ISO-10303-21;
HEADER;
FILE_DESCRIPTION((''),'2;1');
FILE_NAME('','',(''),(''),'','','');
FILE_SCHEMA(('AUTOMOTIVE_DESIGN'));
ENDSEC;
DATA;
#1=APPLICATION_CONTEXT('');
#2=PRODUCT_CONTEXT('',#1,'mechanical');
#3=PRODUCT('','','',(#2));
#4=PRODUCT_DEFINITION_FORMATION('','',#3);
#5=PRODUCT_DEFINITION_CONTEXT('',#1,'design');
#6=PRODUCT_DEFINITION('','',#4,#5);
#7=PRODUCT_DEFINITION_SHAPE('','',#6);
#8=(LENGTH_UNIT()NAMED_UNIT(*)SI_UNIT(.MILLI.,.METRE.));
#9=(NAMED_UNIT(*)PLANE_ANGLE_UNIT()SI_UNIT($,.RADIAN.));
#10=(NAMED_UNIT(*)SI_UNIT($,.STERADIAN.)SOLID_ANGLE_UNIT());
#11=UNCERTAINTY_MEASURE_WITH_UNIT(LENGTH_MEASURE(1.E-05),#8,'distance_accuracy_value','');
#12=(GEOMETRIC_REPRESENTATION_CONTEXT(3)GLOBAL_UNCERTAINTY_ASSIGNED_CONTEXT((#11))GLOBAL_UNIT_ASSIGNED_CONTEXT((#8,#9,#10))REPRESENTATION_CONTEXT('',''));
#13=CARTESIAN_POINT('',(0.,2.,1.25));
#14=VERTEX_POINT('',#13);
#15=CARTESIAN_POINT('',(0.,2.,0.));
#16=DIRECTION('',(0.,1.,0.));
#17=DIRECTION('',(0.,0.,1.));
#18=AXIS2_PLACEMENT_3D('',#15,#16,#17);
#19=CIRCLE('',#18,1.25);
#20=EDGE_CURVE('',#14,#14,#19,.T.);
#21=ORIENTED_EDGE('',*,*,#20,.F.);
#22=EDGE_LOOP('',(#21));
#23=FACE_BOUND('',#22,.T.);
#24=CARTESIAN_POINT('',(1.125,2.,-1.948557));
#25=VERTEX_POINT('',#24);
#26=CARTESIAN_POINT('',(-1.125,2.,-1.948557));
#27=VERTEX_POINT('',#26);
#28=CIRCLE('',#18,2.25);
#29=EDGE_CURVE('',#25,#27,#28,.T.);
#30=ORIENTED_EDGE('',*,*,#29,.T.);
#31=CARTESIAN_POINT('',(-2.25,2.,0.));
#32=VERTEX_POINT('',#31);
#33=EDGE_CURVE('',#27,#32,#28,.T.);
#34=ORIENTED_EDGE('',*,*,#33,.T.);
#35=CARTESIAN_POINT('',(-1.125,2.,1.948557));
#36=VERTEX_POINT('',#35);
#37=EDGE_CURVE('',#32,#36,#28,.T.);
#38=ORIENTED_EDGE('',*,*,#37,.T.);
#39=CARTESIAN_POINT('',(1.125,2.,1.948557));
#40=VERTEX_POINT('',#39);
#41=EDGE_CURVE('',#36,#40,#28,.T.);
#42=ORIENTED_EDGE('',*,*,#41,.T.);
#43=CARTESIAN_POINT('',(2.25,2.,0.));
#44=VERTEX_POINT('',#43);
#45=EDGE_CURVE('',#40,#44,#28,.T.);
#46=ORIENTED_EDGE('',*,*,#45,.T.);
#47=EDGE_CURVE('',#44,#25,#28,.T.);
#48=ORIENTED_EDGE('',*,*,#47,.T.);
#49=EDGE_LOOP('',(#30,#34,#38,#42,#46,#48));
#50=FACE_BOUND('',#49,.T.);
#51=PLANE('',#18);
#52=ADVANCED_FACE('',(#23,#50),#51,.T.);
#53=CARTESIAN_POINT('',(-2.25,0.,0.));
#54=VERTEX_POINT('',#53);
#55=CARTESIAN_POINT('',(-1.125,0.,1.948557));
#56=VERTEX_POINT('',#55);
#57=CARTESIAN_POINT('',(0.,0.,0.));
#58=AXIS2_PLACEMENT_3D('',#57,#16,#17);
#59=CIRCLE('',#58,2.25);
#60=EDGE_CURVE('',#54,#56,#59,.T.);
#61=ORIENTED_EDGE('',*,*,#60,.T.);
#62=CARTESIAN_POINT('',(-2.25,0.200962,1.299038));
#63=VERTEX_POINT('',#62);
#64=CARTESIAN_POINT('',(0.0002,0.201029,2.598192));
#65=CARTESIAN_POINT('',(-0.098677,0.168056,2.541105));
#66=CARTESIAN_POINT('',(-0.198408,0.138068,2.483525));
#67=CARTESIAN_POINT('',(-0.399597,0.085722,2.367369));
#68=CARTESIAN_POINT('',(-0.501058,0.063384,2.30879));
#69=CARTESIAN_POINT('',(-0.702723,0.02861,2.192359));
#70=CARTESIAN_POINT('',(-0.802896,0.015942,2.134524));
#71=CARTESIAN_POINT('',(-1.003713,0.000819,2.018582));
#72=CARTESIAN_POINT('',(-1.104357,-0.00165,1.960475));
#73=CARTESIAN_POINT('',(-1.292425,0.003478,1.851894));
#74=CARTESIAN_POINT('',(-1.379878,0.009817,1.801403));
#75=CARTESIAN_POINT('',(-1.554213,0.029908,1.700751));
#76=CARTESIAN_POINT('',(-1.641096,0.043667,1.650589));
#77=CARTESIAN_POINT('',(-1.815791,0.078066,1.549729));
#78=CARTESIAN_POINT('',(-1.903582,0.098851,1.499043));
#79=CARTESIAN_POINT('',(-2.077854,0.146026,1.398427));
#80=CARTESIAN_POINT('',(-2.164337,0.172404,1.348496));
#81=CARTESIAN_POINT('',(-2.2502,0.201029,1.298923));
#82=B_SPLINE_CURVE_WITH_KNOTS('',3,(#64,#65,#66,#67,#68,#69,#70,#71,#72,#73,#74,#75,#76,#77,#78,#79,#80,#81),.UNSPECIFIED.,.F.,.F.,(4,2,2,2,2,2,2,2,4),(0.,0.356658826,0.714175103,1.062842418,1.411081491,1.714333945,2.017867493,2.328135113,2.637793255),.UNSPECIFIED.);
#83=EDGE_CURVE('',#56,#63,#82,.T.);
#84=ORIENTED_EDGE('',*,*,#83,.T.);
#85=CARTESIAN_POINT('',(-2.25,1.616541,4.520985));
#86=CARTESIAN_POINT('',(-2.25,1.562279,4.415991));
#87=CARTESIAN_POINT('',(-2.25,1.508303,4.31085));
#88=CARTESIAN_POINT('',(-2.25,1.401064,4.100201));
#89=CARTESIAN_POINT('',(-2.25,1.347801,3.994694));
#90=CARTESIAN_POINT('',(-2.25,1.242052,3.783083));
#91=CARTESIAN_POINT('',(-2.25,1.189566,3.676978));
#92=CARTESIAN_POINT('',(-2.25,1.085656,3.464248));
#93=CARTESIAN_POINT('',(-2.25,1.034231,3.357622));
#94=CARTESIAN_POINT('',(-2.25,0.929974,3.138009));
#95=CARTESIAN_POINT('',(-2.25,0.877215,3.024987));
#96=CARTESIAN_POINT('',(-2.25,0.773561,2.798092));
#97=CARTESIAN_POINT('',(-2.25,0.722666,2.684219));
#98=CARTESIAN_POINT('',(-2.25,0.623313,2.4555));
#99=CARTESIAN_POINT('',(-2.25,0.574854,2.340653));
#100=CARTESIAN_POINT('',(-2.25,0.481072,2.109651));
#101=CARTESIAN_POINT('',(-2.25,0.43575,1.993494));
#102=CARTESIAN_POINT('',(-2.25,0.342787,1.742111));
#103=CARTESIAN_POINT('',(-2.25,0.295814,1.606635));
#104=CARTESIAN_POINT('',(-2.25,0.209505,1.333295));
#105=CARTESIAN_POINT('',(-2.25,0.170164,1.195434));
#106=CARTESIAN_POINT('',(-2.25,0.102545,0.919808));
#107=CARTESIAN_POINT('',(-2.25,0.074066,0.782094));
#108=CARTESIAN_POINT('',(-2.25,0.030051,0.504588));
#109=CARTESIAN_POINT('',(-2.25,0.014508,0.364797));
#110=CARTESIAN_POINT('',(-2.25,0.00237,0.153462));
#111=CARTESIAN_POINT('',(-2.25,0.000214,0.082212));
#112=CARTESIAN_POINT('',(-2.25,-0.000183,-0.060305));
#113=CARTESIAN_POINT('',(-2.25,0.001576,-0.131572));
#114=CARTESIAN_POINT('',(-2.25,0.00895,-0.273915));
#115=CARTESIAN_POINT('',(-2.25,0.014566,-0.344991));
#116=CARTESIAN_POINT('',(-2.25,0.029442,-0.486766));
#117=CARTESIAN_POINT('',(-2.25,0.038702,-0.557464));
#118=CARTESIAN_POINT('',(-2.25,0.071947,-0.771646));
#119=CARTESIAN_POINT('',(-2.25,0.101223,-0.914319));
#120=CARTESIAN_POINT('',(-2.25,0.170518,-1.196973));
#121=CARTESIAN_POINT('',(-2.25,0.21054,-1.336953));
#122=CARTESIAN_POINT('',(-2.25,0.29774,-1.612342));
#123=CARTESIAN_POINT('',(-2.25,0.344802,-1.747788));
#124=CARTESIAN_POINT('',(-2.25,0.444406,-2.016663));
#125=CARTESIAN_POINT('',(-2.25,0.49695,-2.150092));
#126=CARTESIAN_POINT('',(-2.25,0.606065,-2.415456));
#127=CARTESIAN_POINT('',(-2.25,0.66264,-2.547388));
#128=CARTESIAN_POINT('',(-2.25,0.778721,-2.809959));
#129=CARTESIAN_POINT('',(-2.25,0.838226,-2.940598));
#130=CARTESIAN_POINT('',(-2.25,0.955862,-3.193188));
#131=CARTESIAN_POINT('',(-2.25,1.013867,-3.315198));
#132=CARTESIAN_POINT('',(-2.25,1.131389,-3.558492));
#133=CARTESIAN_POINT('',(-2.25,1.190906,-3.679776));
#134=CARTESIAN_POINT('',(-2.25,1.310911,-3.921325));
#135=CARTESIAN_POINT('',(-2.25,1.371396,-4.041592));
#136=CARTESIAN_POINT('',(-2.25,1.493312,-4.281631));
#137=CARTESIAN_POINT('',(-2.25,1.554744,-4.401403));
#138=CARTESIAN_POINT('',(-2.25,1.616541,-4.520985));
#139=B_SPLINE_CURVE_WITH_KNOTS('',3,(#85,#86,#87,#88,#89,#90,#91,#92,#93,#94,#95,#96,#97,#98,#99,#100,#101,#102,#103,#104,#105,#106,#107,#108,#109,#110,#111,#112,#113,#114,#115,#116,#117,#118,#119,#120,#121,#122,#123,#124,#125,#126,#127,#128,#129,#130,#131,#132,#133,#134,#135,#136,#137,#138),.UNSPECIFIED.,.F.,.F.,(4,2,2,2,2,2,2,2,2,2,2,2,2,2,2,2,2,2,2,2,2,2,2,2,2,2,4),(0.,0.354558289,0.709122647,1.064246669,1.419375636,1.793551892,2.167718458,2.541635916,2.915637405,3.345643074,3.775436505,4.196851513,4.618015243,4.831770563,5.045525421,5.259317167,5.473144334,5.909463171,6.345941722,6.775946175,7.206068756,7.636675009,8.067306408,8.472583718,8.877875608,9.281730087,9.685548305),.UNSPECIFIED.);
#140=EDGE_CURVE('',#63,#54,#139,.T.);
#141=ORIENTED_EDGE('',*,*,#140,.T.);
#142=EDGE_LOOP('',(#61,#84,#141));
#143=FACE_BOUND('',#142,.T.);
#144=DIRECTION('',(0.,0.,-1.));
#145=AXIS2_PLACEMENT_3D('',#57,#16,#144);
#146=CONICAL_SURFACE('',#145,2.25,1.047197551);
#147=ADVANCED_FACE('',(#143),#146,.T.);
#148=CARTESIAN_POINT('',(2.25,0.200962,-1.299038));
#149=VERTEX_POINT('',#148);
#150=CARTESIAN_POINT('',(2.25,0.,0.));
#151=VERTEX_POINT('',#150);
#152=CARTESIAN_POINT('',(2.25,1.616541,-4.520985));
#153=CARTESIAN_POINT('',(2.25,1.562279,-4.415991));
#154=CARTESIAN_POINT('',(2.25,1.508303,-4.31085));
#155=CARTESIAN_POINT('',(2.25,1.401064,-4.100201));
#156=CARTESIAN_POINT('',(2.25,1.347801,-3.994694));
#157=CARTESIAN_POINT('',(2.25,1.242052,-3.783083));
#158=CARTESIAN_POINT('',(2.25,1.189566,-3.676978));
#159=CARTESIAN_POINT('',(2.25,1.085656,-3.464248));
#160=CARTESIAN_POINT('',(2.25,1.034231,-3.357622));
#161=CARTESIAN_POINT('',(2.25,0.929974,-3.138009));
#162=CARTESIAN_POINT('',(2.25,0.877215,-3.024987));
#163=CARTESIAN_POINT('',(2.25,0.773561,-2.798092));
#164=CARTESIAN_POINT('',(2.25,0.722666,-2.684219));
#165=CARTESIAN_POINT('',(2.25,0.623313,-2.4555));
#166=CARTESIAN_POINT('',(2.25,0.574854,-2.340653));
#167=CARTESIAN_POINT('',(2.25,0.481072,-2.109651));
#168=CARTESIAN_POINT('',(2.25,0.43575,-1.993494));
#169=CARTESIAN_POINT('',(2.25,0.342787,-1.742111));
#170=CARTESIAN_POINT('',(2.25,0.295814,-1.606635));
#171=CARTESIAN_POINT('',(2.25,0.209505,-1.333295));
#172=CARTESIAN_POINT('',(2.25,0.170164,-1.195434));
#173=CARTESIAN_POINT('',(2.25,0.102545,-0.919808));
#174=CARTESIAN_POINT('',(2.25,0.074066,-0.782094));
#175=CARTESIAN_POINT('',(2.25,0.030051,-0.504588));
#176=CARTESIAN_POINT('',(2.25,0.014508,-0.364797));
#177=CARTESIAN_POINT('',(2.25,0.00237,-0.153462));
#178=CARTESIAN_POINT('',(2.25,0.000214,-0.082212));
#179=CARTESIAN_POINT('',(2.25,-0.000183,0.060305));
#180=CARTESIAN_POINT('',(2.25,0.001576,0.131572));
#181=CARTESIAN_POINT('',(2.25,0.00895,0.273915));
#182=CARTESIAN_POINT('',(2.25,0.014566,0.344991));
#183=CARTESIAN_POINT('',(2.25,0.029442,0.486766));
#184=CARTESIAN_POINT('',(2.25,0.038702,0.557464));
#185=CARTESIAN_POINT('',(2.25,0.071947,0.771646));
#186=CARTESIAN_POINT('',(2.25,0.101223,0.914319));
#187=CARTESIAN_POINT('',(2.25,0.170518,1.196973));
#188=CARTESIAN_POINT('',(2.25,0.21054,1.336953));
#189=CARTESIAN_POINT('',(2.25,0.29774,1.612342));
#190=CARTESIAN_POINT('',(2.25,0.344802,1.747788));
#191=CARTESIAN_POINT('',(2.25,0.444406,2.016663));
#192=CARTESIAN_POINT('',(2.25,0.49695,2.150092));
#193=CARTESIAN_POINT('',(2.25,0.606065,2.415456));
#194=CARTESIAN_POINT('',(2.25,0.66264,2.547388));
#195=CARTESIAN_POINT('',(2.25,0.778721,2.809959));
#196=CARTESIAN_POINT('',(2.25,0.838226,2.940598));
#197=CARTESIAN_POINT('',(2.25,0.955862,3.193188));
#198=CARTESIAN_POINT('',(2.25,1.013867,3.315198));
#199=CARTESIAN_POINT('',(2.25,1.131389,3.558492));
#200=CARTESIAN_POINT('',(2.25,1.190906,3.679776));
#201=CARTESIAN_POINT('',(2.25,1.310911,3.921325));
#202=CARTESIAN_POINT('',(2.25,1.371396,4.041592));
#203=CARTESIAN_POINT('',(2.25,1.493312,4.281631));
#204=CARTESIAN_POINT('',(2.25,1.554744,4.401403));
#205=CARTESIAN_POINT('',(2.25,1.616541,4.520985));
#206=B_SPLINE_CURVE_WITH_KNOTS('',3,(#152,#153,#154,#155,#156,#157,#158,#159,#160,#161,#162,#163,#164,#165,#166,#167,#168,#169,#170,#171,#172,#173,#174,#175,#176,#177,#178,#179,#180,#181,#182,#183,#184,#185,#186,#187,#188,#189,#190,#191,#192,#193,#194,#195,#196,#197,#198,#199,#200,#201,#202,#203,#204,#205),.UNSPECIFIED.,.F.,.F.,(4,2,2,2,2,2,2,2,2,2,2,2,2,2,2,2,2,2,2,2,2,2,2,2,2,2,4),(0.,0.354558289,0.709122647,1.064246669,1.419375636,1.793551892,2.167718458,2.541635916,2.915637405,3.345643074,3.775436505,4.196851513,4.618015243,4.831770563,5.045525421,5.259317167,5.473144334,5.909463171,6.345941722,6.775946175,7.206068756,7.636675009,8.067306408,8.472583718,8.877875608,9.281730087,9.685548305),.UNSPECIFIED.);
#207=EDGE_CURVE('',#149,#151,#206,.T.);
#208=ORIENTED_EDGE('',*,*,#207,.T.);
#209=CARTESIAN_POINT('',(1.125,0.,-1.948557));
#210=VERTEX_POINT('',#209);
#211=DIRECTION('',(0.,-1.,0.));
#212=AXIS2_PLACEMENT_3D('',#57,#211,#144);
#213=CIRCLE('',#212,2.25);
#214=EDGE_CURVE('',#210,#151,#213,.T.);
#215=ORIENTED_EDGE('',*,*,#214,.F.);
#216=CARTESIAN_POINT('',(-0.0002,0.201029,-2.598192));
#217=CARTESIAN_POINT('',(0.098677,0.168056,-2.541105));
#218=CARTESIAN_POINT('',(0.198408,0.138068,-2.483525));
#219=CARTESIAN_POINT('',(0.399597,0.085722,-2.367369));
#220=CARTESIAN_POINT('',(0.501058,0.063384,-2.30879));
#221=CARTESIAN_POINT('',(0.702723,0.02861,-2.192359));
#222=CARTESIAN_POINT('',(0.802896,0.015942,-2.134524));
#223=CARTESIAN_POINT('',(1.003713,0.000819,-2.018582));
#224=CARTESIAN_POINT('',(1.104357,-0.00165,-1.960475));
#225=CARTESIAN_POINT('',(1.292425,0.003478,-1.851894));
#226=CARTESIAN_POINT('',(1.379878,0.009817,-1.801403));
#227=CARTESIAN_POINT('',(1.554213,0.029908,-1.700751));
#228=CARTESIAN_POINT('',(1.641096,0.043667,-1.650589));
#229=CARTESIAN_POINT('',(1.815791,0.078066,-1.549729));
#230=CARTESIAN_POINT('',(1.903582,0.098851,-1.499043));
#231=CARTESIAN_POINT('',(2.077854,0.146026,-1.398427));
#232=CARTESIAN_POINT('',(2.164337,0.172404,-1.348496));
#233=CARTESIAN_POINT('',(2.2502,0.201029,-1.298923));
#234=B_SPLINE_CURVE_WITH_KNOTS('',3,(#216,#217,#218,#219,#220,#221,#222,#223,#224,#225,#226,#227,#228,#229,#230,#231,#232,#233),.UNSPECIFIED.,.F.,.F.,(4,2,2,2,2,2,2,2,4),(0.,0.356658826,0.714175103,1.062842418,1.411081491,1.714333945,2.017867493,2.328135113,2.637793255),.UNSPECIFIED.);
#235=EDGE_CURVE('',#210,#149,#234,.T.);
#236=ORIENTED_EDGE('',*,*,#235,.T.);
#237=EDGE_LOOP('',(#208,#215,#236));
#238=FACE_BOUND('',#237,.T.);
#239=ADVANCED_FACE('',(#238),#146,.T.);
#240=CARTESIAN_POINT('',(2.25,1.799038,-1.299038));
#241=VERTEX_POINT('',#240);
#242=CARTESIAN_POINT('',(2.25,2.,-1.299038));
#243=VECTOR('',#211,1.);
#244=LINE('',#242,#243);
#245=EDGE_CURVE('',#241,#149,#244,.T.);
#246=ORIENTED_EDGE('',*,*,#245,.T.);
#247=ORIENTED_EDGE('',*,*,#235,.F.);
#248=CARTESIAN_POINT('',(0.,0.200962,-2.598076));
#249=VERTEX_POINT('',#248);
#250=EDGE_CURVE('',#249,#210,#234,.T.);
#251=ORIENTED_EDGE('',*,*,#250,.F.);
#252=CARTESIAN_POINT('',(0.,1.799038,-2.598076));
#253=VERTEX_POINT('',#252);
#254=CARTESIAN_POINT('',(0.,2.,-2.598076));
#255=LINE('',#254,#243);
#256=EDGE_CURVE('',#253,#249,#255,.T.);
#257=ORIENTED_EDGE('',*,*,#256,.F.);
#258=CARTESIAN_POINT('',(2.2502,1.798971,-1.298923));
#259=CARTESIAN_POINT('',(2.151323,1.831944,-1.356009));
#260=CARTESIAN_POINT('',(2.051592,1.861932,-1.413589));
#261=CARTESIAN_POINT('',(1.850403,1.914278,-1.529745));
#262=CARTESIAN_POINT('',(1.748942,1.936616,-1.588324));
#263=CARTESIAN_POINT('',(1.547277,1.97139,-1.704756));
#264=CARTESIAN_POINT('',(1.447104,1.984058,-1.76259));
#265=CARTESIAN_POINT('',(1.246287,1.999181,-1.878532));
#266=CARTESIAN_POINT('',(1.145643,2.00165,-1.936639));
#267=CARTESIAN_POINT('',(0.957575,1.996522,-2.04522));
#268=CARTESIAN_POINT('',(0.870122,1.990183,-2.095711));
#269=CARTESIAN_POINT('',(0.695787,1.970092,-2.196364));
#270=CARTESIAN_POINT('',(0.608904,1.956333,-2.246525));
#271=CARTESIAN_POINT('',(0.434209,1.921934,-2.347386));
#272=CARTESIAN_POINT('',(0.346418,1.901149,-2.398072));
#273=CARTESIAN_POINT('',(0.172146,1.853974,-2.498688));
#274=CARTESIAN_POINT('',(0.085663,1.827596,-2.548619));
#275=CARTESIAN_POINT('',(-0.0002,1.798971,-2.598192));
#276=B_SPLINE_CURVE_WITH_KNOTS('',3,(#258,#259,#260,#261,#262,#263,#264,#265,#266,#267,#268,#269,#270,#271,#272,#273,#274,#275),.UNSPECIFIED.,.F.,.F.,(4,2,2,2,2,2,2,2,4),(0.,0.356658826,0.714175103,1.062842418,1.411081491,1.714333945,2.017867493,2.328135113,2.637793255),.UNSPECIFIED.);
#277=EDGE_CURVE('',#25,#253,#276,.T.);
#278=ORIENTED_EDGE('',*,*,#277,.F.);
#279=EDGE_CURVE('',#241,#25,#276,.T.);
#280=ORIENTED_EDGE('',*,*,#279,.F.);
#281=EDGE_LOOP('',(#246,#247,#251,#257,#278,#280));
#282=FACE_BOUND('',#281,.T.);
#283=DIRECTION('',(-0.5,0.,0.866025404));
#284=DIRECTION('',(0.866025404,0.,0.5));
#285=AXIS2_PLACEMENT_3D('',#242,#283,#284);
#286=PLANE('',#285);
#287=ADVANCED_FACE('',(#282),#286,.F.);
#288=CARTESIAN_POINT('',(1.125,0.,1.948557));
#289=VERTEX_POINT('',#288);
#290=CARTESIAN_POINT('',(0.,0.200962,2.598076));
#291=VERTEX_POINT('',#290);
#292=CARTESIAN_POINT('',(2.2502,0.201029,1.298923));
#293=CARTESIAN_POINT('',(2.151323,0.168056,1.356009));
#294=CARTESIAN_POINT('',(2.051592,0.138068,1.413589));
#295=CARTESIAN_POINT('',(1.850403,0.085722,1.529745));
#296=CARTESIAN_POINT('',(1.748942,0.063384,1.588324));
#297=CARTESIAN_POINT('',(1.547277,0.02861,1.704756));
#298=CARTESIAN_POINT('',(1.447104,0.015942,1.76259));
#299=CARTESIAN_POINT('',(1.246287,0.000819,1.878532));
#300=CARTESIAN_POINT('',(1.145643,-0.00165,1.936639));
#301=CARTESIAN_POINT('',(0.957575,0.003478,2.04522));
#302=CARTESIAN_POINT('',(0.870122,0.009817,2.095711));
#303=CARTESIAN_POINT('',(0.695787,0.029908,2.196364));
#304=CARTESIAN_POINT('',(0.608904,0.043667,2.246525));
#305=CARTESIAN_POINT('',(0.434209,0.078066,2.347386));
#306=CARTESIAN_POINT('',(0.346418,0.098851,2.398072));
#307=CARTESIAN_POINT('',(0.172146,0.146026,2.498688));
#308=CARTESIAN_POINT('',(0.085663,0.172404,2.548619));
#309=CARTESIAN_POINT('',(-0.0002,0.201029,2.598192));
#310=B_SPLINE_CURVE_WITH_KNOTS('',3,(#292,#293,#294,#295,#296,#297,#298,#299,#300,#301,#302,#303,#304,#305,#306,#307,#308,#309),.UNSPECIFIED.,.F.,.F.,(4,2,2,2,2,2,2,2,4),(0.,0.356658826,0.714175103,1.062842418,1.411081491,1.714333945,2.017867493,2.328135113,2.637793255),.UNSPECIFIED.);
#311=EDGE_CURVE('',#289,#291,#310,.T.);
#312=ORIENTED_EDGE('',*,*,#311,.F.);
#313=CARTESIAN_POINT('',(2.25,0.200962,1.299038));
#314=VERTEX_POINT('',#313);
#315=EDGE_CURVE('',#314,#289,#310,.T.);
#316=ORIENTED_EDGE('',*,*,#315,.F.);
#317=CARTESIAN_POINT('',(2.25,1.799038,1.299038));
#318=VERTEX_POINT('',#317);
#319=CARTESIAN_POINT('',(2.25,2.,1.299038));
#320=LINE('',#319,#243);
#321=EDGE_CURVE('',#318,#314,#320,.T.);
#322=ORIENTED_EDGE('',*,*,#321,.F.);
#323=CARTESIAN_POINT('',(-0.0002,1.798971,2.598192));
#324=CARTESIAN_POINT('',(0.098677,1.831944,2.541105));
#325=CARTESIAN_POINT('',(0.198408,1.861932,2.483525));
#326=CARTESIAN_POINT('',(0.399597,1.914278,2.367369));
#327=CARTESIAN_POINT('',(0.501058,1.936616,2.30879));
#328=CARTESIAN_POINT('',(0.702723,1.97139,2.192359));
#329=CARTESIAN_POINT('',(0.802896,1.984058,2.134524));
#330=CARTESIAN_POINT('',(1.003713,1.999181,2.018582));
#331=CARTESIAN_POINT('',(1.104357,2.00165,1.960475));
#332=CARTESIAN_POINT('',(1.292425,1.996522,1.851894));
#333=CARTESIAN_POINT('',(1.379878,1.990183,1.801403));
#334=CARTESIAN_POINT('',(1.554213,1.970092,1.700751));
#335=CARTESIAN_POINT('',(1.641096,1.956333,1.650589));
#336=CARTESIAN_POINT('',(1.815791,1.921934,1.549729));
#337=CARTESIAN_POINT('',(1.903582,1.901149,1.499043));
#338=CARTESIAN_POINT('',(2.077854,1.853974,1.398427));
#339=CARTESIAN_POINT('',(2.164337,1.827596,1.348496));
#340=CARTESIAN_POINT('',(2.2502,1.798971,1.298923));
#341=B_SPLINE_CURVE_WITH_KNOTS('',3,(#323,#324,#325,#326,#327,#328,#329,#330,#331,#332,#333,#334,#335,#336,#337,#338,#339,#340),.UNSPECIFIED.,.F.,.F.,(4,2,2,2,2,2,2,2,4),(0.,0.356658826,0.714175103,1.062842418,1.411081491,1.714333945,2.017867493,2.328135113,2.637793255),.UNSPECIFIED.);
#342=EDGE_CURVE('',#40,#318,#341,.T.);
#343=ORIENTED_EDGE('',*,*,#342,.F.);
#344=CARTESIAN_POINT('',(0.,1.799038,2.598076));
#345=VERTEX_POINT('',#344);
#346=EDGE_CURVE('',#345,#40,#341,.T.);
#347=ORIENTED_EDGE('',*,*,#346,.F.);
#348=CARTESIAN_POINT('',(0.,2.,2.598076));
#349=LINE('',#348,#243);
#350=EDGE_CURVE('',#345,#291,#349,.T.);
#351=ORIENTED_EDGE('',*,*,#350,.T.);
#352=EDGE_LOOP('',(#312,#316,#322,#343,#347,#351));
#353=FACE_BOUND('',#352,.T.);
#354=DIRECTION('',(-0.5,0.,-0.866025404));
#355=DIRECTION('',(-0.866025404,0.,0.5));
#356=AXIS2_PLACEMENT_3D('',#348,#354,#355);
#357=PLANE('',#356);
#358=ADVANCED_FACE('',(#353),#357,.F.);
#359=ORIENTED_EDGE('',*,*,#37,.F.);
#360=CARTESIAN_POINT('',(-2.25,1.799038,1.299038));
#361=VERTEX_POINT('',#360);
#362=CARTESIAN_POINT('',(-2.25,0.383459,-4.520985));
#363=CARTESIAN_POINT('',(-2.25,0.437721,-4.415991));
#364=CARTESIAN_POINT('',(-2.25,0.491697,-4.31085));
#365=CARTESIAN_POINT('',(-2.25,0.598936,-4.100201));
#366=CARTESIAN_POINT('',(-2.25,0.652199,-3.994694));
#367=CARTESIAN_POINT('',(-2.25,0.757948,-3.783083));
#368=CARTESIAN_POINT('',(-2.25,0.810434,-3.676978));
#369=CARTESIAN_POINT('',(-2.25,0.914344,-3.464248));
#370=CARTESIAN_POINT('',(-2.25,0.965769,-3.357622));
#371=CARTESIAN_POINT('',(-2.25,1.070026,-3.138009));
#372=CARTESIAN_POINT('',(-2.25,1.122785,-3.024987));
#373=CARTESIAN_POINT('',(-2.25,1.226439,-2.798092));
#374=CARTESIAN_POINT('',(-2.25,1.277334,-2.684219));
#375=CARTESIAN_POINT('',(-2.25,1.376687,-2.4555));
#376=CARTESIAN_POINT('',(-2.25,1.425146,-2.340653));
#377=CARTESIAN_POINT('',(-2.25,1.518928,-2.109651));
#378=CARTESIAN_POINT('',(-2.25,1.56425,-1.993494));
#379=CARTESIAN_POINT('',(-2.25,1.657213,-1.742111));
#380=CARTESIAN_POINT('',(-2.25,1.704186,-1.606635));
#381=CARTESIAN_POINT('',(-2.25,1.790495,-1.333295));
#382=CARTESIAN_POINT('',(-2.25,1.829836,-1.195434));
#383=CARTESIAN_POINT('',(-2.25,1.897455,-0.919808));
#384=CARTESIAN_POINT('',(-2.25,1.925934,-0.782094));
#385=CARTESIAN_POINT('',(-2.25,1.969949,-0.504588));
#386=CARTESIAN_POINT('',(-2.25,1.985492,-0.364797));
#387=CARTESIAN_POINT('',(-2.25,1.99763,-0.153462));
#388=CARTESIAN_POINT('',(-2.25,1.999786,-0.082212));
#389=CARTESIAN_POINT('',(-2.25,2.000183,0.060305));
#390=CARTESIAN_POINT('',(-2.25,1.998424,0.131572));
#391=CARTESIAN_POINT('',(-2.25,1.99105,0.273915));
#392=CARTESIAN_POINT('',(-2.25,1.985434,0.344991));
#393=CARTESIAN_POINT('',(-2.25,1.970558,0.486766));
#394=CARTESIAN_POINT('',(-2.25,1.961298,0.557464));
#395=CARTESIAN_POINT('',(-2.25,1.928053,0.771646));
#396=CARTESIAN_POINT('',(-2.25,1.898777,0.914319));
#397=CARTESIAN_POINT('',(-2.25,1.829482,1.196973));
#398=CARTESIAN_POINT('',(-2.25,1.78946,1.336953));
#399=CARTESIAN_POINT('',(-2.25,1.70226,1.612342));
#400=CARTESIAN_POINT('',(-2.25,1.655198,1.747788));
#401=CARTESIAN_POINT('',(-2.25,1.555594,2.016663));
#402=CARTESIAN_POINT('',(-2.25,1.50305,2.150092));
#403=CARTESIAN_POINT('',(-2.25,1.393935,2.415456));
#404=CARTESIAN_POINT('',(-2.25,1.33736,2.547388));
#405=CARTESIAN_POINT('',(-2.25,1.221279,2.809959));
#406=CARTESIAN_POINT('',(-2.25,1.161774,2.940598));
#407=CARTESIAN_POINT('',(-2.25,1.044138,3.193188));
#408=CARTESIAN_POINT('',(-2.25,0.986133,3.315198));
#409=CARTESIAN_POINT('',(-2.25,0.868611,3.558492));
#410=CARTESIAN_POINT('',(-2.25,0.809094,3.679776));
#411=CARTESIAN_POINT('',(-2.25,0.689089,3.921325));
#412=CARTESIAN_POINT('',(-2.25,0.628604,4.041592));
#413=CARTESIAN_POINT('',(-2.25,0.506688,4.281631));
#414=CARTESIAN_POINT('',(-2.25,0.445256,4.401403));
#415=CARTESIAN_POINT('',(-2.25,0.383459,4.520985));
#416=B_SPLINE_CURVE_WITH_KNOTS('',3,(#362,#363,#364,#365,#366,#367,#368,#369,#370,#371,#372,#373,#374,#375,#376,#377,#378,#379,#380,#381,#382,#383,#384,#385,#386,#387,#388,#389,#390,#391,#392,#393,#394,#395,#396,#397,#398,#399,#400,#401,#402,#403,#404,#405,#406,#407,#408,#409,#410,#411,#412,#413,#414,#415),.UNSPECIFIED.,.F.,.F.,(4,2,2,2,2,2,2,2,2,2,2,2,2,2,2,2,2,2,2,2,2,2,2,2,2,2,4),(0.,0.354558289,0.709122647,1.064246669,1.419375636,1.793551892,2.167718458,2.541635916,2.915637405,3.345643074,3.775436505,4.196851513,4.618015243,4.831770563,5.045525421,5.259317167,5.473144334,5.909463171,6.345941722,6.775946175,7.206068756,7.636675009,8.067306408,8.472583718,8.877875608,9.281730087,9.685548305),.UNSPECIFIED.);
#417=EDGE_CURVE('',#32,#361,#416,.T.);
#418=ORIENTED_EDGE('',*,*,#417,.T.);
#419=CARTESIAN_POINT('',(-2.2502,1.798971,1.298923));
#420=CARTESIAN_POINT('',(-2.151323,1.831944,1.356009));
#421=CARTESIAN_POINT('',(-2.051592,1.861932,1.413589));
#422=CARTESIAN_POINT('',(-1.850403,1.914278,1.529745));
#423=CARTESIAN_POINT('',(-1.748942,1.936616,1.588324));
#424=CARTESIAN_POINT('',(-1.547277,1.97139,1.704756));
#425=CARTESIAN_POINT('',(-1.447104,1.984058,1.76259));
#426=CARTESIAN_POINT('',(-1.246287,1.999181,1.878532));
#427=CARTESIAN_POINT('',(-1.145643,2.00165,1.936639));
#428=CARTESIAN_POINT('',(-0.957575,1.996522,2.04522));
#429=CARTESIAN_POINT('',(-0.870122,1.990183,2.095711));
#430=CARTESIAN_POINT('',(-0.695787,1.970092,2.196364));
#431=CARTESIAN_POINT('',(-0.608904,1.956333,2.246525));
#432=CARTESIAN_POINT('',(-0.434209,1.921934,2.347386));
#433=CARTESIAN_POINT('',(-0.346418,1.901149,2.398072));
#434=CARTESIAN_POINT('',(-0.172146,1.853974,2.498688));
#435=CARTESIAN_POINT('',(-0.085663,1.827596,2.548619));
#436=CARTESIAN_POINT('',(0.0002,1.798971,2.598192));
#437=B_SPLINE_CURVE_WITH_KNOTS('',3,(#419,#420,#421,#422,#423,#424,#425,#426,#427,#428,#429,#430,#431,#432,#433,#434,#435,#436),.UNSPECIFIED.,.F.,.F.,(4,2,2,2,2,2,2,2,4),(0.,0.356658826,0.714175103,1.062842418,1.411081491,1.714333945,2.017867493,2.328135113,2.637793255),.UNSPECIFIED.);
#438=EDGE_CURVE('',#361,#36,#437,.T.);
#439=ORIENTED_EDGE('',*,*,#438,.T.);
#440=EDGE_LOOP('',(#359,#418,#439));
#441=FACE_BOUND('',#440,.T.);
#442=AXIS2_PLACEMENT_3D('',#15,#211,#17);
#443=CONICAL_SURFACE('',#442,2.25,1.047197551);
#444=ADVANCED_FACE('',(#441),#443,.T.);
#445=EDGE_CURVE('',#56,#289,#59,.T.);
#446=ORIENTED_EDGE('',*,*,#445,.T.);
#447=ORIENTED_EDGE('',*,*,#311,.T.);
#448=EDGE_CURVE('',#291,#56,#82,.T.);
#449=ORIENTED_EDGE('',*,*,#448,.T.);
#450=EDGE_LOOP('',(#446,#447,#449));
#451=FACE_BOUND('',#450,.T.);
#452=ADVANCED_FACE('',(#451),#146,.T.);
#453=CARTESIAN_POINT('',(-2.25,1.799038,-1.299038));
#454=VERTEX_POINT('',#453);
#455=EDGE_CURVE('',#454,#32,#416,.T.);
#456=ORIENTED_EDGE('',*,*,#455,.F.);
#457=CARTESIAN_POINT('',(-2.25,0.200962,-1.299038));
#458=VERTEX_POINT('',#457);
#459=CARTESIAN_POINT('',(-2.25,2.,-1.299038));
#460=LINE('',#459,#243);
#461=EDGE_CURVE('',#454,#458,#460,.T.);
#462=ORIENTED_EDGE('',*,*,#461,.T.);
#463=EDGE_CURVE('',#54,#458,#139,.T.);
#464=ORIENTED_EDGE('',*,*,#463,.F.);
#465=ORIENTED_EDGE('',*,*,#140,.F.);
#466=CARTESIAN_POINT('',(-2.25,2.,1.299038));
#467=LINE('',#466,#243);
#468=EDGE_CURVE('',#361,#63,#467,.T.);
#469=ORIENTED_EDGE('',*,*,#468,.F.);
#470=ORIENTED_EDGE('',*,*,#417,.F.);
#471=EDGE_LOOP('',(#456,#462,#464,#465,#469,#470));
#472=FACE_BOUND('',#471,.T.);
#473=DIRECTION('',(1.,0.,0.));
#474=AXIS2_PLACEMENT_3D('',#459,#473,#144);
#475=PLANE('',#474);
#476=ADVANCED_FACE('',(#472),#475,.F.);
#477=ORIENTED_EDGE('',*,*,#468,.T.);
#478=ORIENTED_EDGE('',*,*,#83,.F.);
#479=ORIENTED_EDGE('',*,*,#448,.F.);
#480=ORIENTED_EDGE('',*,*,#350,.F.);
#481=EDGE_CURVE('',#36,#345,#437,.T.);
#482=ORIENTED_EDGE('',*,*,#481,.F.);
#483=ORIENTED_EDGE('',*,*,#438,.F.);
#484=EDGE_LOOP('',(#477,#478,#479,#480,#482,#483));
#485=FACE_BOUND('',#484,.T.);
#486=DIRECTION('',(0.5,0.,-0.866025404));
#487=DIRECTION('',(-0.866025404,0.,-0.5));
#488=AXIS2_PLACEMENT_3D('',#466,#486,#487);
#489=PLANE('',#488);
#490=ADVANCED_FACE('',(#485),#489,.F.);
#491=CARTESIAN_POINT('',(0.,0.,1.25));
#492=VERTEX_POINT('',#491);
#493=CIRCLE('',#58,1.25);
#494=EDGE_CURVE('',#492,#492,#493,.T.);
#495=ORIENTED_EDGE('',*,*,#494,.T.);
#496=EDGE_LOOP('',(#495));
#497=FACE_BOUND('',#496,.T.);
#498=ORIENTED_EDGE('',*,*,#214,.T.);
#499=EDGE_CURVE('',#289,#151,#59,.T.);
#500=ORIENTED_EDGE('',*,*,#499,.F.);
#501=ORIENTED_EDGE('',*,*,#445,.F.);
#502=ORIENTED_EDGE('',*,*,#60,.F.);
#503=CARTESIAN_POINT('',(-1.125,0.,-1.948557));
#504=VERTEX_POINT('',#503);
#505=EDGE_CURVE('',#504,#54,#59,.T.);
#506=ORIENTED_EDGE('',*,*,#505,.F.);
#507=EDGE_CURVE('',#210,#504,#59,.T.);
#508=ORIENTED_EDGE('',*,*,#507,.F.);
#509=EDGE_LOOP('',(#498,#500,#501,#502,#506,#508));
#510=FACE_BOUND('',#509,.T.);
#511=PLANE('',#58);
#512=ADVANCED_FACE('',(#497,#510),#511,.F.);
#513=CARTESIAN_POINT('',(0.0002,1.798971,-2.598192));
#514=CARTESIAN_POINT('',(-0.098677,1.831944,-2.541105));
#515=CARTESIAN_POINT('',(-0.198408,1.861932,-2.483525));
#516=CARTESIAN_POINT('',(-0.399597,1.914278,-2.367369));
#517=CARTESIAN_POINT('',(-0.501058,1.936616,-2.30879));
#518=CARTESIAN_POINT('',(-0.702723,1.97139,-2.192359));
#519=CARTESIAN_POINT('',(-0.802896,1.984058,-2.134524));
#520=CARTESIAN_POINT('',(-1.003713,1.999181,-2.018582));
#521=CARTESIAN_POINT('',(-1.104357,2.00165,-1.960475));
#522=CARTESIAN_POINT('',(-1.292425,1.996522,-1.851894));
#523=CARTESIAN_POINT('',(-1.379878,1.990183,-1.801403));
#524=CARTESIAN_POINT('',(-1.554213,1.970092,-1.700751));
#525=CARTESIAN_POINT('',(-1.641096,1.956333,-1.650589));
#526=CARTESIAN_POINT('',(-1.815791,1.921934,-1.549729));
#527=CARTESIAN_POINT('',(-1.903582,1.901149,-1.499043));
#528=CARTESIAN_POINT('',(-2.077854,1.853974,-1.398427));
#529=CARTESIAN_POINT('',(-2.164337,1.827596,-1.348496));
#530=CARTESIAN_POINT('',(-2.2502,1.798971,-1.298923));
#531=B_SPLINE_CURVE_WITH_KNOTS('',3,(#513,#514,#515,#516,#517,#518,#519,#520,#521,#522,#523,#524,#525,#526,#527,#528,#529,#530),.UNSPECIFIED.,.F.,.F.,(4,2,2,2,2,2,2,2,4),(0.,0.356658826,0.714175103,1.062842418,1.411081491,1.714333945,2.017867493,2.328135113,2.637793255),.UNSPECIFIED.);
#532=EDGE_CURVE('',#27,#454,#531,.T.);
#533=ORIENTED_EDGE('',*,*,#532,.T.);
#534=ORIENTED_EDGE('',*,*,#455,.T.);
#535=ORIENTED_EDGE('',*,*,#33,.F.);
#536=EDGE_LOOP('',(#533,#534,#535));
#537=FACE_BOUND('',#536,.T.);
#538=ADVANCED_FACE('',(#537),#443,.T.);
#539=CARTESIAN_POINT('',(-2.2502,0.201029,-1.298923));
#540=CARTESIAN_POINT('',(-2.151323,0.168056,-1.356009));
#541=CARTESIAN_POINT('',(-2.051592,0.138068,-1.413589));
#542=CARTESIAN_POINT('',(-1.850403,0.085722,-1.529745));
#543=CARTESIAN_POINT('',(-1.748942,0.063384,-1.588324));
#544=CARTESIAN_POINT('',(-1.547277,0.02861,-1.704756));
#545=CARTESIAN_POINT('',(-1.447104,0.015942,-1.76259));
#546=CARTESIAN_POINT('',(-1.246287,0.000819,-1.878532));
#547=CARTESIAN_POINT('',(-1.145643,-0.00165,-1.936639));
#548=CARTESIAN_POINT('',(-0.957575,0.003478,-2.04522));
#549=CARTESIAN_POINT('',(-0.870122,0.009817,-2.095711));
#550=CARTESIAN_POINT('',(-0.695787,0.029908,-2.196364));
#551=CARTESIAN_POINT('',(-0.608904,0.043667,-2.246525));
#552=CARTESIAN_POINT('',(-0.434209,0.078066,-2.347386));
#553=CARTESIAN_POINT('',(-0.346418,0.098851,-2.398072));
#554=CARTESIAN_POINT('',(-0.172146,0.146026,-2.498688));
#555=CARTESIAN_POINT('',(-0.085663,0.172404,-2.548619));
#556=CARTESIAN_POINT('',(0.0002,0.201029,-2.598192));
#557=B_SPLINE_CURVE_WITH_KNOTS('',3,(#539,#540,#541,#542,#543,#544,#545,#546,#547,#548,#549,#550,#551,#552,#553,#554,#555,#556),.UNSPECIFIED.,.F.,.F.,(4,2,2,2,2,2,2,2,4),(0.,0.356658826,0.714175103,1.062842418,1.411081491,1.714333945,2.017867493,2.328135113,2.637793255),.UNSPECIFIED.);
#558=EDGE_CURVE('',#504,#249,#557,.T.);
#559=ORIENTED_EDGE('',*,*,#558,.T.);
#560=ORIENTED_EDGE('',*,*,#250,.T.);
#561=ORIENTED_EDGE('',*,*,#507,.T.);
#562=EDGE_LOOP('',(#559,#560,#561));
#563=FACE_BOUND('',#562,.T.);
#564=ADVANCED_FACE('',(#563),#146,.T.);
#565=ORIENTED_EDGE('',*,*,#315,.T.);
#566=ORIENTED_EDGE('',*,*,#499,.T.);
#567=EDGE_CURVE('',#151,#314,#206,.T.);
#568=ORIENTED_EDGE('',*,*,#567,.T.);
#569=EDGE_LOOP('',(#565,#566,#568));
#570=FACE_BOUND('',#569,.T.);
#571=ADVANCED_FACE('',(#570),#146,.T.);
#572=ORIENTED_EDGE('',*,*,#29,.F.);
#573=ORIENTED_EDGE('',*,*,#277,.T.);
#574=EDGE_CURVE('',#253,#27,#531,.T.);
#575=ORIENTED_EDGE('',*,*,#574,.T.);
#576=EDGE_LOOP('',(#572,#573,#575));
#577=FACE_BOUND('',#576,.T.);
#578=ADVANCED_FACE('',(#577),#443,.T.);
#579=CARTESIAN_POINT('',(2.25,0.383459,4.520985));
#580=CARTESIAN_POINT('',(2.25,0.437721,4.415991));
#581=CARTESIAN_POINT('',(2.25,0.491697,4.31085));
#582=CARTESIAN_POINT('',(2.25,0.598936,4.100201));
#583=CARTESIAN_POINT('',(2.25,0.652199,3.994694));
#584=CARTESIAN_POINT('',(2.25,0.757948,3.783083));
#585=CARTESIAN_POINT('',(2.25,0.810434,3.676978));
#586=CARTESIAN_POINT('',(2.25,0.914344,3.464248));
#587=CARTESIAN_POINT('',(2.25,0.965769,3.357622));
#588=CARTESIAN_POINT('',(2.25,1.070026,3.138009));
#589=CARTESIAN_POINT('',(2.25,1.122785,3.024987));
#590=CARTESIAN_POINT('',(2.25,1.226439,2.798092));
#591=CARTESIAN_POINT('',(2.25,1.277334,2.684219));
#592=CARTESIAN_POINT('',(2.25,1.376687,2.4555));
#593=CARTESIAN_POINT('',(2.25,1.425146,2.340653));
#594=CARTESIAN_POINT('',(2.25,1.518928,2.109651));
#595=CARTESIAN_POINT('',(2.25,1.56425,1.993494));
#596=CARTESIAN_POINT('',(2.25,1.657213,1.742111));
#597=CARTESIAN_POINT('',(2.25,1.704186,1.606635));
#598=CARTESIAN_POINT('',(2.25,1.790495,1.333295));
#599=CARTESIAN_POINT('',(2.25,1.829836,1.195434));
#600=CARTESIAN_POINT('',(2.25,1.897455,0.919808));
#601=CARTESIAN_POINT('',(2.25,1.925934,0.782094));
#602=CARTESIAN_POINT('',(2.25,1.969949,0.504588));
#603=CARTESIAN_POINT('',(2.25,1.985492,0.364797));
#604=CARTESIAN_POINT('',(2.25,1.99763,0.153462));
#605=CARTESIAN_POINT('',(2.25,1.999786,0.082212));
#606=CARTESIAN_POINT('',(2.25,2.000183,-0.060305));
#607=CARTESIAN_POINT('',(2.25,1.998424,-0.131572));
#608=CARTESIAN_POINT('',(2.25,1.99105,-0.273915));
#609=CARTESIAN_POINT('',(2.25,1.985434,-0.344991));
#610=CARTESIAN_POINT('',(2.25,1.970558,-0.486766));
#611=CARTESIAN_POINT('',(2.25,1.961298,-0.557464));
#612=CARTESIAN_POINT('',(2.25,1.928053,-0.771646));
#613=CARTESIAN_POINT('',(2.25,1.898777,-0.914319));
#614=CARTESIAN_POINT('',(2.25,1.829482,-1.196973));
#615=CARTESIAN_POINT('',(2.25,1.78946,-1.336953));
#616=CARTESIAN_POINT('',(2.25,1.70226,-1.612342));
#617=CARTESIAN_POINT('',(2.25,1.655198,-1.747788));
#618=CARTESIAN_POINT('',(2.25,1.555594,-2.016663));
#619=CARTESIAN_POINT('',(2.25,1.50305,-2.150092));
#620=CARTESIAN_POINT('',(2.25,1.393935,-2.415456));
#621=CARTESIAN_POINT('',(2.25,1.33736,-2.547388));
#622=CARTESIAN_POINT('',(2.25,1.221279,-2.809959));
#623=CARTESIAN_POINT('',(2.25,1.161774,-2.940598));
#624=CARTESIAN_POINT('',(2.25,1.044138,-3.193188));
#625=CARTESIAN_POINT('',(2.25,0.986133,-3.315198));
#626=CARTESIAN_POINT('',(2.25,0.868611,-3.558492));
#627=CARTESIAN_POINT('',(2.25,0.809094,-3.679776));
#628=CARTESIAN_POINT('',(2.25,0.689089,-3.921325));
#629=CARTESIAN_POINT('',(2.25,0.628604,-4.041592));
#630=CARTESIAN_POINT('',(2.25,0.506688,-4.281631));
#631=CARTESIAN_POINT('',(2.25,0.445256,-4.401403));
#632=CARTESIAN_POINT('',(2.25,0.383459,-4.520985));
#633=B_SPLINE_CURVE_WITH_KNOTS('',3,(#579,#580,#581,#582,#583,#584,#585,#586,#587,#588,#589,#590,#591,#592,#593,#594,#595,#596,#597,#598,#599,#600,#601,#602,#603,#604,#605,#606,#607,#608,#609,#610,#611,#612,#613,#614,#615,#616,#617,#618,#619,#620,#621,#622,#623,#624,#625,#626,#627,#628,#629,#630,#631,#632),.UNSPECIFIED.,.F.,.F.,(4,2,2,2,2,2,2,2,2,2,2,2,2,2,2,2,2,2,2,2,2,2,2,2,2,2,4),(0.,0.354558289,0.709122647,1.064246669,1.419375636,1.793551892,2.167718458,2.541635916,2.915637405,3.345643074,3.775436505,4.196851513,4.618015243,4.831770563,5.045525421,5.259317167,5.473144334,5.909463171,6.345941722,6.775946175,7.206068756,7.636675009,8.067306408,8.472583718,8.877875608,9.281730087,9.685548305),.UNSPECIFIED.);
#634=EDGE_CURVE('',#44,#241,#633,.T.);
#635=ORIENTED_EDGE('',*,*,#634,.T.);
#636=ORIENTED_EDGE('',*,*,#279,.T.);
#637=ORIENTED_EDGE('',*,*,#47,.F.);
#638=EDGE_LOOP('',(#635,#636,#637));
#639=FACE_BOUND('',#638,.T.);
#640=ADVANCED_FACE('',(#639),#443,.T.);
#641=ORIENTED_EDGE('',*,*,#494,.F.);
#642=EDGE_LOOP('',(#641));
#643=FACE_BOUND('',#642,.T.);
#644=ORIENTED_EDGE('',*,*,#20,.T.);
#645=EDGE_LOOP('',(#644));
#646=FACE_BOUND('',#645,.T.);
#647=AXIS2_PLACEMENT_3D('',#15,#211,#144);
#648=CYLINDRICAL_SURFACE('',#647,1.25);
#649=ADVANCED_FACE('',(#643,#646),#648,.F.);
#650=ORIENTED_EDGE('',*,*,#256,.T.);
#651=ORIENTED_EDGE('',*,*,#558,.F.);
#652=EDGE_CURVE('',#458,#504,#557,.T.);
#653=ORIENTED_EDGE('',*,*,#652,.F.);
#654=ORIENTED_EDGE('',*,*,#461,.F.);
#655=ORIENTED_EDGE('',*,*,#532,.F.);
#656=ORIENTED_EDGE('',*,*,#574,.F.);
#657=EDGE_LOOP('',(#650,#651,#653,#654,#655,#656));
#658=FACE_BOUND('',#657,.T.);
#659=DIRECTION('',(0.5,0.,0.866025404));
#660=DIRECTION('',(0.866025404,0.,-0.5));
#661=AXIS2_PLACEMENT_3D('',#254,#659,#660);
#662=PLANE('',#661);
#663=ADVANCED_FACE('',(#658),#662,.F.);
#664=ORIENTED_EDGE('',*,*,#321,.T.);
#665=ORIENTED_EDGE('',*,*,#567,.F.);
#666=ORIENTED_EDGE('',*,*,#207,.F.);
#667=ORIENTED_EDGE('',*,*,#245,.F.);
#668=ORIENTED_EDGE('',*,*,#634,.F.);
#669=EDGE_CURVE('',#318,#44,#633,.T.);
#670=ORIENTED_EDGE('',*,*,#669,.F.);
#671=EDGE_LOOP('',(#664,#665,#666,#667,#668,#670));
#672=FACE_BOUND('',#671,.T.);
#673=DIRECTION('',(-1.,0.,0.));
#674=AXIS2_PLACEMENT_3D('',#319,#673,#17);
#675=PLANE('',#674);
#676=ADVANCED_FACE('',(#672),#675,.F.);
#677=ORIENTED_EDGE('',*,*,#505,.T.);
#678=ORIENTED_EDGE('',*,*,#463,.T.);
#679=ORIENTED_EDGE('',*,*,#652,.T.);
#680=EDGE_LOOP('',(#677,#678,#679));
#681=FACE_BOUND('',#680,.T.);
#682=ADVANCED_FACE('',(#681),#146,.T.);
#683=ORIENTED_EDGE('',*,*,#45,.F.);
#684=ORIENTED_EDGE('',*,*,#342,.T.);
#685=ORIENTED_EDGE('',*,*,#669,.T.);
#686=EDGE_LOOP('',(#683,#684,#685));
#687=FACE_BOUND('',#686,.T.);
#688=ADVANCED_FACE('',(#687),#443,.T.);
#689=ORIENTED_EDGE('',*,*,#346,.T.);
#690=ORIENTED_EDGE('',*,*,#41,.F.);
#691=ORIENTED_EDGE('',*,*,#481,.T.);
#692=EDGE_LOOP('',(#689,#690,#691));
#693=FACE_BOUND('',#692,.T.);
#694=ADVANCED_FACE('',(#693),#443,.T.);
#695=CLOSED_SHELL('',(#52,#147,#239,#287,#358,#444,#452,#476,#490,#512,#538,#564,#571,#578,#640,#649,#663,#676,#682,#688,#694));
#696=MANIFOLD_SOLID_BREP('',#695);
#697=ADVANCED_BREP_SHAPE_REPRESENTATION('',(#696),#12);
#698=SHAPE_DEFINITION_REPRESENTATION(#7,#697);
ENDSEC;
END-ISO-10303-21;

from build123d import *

# Parameters (mm, degrees)
SKETCH1_R           = 1.25
BOSS_EXTRUDE1_DEPTH = 2
SKETCH2_OUTSIDE_W   = 14.86
SKETCH2_OUTSIDE_H   = 15.556
SKETCH2_OUTSIDE_R   = 2.25
CUT_EXTRUDE1_DEPTH  = 2
CUT_EXTRUDE1_DRAFT  = -60
SKETCH3_OUTSIDE_W   = 14.86
SKETCH3_OUTSIDE_H   = 15.556
SKETCH3_OUTSIDE_R   = 2.25
CUT_EXTRUDE2_DEPTH  = 2
CUT_EXTRUDE2_DRAFT  = -60


with BuildPart() as part:
    # Sketch1 → Boss-Extrude1 (new body)
    with BuildSketch(Plane(origin=(0, 0, 0), x_dir=(1, 0, 0), z_dir=(0, 1, 0))):
        Polygon((0, 2.598076211), (-2.25, 1.299038106), (-2.25, -1.299038106), (0, -2.598076211), (2.25, -1.299038106), (2.25, 1.299038106), align=None)
        with Locations(Location((0, 0, 0), (0, 0, 270))):
            Circle(SKETCH1_R, mode=Mode.SUBTRACT)
    extrude(amount=BOSS_EXTRUDE1_DEPTH)


with BuildPart() as cut_extrude1_tool:
    # Sketch2 outside → Cut-Extrude1 (with draft: the straight prism first)
    with BuildSketch(Plane(origin=(0, 2, 0), x_dir=(1, 0, 0), z_dir=(0, 1, 0))):
        Rectangle(SKETCH2_OUTSIDE_W, SKETCH2_OUTSIDE_H)
        Circle(SKETCH2_OUTSIDE_R, mode=Mode.SUBTRACT)
    extrude(amount=-CUT_EXTRUDE1_DEPTH)
    # Cut-Extrude1: the draft: its side faces are tilted about the plane it starts from
    cut_extrude1_sides = [cut_extrude1_tool.faces().sort_by_distance(p)[0] for p in [
        (0, 1, 7.778),
        (7.43, 1, 0),
        (0, 1, -7.778),
        (-7.43, 1, 0),
        (-2.25, 1, 0),
    ]]
    draft(cut_extrude1_sides, Plane(origin=(0, 2, 0), x_dir=(1, 0, 0), z_dir=(0, 1, 0)), CUT_EXTRUDE1_DRAFT)


with BuildPart() as part_1:
    add(part.part)

    # Cut-Extrude1: cut by cut_extrude1_tool
    add(cut_extrude1_tool.part, mode=Mode.SUBTRACT)


with BuildPart() as cut_extrude2_tool:
    # Sketch3 outside → Cut-Extrude2 (with draft: the straight prism first)
    with BuildSketch(Plane.XZ):
        Rectangle(SKETCH3_OUTSIDE_W, SKETCH3_OUTSIDE_H)
        Circle(SKETCH3_OUTSIDE_R, mode=Mode.SUBTRACT)
    extrude(amount=-CUT_EXTRUDE2_DEPTH)
    # Cut-Extrude2: the draft: its side faces are tilted about the plane it starts from
    cut_extrude2_sides = [cut_extrude2_tool.faces().sort_by_distance(p)[0] for p in [
        (0, 1, -7.778),
        (7.43, 1, 0),
        (0, 1, 7.778),
        (-7.43, 1, 0),
        (-2.25, 1, 0),
    ]]
    draft(cut_extrude2_sides, Plane.XZ, CUT_EXTRUDE2_DRAFT)


with BuildPart() as part_2:
    add(part_1.part)

    # Cut-Extrude2: cut by cut_extrude2_tool
    add(cut_extrude2_tool.part, mode=Mode.SUBTRACT)


solid = part_2.part
